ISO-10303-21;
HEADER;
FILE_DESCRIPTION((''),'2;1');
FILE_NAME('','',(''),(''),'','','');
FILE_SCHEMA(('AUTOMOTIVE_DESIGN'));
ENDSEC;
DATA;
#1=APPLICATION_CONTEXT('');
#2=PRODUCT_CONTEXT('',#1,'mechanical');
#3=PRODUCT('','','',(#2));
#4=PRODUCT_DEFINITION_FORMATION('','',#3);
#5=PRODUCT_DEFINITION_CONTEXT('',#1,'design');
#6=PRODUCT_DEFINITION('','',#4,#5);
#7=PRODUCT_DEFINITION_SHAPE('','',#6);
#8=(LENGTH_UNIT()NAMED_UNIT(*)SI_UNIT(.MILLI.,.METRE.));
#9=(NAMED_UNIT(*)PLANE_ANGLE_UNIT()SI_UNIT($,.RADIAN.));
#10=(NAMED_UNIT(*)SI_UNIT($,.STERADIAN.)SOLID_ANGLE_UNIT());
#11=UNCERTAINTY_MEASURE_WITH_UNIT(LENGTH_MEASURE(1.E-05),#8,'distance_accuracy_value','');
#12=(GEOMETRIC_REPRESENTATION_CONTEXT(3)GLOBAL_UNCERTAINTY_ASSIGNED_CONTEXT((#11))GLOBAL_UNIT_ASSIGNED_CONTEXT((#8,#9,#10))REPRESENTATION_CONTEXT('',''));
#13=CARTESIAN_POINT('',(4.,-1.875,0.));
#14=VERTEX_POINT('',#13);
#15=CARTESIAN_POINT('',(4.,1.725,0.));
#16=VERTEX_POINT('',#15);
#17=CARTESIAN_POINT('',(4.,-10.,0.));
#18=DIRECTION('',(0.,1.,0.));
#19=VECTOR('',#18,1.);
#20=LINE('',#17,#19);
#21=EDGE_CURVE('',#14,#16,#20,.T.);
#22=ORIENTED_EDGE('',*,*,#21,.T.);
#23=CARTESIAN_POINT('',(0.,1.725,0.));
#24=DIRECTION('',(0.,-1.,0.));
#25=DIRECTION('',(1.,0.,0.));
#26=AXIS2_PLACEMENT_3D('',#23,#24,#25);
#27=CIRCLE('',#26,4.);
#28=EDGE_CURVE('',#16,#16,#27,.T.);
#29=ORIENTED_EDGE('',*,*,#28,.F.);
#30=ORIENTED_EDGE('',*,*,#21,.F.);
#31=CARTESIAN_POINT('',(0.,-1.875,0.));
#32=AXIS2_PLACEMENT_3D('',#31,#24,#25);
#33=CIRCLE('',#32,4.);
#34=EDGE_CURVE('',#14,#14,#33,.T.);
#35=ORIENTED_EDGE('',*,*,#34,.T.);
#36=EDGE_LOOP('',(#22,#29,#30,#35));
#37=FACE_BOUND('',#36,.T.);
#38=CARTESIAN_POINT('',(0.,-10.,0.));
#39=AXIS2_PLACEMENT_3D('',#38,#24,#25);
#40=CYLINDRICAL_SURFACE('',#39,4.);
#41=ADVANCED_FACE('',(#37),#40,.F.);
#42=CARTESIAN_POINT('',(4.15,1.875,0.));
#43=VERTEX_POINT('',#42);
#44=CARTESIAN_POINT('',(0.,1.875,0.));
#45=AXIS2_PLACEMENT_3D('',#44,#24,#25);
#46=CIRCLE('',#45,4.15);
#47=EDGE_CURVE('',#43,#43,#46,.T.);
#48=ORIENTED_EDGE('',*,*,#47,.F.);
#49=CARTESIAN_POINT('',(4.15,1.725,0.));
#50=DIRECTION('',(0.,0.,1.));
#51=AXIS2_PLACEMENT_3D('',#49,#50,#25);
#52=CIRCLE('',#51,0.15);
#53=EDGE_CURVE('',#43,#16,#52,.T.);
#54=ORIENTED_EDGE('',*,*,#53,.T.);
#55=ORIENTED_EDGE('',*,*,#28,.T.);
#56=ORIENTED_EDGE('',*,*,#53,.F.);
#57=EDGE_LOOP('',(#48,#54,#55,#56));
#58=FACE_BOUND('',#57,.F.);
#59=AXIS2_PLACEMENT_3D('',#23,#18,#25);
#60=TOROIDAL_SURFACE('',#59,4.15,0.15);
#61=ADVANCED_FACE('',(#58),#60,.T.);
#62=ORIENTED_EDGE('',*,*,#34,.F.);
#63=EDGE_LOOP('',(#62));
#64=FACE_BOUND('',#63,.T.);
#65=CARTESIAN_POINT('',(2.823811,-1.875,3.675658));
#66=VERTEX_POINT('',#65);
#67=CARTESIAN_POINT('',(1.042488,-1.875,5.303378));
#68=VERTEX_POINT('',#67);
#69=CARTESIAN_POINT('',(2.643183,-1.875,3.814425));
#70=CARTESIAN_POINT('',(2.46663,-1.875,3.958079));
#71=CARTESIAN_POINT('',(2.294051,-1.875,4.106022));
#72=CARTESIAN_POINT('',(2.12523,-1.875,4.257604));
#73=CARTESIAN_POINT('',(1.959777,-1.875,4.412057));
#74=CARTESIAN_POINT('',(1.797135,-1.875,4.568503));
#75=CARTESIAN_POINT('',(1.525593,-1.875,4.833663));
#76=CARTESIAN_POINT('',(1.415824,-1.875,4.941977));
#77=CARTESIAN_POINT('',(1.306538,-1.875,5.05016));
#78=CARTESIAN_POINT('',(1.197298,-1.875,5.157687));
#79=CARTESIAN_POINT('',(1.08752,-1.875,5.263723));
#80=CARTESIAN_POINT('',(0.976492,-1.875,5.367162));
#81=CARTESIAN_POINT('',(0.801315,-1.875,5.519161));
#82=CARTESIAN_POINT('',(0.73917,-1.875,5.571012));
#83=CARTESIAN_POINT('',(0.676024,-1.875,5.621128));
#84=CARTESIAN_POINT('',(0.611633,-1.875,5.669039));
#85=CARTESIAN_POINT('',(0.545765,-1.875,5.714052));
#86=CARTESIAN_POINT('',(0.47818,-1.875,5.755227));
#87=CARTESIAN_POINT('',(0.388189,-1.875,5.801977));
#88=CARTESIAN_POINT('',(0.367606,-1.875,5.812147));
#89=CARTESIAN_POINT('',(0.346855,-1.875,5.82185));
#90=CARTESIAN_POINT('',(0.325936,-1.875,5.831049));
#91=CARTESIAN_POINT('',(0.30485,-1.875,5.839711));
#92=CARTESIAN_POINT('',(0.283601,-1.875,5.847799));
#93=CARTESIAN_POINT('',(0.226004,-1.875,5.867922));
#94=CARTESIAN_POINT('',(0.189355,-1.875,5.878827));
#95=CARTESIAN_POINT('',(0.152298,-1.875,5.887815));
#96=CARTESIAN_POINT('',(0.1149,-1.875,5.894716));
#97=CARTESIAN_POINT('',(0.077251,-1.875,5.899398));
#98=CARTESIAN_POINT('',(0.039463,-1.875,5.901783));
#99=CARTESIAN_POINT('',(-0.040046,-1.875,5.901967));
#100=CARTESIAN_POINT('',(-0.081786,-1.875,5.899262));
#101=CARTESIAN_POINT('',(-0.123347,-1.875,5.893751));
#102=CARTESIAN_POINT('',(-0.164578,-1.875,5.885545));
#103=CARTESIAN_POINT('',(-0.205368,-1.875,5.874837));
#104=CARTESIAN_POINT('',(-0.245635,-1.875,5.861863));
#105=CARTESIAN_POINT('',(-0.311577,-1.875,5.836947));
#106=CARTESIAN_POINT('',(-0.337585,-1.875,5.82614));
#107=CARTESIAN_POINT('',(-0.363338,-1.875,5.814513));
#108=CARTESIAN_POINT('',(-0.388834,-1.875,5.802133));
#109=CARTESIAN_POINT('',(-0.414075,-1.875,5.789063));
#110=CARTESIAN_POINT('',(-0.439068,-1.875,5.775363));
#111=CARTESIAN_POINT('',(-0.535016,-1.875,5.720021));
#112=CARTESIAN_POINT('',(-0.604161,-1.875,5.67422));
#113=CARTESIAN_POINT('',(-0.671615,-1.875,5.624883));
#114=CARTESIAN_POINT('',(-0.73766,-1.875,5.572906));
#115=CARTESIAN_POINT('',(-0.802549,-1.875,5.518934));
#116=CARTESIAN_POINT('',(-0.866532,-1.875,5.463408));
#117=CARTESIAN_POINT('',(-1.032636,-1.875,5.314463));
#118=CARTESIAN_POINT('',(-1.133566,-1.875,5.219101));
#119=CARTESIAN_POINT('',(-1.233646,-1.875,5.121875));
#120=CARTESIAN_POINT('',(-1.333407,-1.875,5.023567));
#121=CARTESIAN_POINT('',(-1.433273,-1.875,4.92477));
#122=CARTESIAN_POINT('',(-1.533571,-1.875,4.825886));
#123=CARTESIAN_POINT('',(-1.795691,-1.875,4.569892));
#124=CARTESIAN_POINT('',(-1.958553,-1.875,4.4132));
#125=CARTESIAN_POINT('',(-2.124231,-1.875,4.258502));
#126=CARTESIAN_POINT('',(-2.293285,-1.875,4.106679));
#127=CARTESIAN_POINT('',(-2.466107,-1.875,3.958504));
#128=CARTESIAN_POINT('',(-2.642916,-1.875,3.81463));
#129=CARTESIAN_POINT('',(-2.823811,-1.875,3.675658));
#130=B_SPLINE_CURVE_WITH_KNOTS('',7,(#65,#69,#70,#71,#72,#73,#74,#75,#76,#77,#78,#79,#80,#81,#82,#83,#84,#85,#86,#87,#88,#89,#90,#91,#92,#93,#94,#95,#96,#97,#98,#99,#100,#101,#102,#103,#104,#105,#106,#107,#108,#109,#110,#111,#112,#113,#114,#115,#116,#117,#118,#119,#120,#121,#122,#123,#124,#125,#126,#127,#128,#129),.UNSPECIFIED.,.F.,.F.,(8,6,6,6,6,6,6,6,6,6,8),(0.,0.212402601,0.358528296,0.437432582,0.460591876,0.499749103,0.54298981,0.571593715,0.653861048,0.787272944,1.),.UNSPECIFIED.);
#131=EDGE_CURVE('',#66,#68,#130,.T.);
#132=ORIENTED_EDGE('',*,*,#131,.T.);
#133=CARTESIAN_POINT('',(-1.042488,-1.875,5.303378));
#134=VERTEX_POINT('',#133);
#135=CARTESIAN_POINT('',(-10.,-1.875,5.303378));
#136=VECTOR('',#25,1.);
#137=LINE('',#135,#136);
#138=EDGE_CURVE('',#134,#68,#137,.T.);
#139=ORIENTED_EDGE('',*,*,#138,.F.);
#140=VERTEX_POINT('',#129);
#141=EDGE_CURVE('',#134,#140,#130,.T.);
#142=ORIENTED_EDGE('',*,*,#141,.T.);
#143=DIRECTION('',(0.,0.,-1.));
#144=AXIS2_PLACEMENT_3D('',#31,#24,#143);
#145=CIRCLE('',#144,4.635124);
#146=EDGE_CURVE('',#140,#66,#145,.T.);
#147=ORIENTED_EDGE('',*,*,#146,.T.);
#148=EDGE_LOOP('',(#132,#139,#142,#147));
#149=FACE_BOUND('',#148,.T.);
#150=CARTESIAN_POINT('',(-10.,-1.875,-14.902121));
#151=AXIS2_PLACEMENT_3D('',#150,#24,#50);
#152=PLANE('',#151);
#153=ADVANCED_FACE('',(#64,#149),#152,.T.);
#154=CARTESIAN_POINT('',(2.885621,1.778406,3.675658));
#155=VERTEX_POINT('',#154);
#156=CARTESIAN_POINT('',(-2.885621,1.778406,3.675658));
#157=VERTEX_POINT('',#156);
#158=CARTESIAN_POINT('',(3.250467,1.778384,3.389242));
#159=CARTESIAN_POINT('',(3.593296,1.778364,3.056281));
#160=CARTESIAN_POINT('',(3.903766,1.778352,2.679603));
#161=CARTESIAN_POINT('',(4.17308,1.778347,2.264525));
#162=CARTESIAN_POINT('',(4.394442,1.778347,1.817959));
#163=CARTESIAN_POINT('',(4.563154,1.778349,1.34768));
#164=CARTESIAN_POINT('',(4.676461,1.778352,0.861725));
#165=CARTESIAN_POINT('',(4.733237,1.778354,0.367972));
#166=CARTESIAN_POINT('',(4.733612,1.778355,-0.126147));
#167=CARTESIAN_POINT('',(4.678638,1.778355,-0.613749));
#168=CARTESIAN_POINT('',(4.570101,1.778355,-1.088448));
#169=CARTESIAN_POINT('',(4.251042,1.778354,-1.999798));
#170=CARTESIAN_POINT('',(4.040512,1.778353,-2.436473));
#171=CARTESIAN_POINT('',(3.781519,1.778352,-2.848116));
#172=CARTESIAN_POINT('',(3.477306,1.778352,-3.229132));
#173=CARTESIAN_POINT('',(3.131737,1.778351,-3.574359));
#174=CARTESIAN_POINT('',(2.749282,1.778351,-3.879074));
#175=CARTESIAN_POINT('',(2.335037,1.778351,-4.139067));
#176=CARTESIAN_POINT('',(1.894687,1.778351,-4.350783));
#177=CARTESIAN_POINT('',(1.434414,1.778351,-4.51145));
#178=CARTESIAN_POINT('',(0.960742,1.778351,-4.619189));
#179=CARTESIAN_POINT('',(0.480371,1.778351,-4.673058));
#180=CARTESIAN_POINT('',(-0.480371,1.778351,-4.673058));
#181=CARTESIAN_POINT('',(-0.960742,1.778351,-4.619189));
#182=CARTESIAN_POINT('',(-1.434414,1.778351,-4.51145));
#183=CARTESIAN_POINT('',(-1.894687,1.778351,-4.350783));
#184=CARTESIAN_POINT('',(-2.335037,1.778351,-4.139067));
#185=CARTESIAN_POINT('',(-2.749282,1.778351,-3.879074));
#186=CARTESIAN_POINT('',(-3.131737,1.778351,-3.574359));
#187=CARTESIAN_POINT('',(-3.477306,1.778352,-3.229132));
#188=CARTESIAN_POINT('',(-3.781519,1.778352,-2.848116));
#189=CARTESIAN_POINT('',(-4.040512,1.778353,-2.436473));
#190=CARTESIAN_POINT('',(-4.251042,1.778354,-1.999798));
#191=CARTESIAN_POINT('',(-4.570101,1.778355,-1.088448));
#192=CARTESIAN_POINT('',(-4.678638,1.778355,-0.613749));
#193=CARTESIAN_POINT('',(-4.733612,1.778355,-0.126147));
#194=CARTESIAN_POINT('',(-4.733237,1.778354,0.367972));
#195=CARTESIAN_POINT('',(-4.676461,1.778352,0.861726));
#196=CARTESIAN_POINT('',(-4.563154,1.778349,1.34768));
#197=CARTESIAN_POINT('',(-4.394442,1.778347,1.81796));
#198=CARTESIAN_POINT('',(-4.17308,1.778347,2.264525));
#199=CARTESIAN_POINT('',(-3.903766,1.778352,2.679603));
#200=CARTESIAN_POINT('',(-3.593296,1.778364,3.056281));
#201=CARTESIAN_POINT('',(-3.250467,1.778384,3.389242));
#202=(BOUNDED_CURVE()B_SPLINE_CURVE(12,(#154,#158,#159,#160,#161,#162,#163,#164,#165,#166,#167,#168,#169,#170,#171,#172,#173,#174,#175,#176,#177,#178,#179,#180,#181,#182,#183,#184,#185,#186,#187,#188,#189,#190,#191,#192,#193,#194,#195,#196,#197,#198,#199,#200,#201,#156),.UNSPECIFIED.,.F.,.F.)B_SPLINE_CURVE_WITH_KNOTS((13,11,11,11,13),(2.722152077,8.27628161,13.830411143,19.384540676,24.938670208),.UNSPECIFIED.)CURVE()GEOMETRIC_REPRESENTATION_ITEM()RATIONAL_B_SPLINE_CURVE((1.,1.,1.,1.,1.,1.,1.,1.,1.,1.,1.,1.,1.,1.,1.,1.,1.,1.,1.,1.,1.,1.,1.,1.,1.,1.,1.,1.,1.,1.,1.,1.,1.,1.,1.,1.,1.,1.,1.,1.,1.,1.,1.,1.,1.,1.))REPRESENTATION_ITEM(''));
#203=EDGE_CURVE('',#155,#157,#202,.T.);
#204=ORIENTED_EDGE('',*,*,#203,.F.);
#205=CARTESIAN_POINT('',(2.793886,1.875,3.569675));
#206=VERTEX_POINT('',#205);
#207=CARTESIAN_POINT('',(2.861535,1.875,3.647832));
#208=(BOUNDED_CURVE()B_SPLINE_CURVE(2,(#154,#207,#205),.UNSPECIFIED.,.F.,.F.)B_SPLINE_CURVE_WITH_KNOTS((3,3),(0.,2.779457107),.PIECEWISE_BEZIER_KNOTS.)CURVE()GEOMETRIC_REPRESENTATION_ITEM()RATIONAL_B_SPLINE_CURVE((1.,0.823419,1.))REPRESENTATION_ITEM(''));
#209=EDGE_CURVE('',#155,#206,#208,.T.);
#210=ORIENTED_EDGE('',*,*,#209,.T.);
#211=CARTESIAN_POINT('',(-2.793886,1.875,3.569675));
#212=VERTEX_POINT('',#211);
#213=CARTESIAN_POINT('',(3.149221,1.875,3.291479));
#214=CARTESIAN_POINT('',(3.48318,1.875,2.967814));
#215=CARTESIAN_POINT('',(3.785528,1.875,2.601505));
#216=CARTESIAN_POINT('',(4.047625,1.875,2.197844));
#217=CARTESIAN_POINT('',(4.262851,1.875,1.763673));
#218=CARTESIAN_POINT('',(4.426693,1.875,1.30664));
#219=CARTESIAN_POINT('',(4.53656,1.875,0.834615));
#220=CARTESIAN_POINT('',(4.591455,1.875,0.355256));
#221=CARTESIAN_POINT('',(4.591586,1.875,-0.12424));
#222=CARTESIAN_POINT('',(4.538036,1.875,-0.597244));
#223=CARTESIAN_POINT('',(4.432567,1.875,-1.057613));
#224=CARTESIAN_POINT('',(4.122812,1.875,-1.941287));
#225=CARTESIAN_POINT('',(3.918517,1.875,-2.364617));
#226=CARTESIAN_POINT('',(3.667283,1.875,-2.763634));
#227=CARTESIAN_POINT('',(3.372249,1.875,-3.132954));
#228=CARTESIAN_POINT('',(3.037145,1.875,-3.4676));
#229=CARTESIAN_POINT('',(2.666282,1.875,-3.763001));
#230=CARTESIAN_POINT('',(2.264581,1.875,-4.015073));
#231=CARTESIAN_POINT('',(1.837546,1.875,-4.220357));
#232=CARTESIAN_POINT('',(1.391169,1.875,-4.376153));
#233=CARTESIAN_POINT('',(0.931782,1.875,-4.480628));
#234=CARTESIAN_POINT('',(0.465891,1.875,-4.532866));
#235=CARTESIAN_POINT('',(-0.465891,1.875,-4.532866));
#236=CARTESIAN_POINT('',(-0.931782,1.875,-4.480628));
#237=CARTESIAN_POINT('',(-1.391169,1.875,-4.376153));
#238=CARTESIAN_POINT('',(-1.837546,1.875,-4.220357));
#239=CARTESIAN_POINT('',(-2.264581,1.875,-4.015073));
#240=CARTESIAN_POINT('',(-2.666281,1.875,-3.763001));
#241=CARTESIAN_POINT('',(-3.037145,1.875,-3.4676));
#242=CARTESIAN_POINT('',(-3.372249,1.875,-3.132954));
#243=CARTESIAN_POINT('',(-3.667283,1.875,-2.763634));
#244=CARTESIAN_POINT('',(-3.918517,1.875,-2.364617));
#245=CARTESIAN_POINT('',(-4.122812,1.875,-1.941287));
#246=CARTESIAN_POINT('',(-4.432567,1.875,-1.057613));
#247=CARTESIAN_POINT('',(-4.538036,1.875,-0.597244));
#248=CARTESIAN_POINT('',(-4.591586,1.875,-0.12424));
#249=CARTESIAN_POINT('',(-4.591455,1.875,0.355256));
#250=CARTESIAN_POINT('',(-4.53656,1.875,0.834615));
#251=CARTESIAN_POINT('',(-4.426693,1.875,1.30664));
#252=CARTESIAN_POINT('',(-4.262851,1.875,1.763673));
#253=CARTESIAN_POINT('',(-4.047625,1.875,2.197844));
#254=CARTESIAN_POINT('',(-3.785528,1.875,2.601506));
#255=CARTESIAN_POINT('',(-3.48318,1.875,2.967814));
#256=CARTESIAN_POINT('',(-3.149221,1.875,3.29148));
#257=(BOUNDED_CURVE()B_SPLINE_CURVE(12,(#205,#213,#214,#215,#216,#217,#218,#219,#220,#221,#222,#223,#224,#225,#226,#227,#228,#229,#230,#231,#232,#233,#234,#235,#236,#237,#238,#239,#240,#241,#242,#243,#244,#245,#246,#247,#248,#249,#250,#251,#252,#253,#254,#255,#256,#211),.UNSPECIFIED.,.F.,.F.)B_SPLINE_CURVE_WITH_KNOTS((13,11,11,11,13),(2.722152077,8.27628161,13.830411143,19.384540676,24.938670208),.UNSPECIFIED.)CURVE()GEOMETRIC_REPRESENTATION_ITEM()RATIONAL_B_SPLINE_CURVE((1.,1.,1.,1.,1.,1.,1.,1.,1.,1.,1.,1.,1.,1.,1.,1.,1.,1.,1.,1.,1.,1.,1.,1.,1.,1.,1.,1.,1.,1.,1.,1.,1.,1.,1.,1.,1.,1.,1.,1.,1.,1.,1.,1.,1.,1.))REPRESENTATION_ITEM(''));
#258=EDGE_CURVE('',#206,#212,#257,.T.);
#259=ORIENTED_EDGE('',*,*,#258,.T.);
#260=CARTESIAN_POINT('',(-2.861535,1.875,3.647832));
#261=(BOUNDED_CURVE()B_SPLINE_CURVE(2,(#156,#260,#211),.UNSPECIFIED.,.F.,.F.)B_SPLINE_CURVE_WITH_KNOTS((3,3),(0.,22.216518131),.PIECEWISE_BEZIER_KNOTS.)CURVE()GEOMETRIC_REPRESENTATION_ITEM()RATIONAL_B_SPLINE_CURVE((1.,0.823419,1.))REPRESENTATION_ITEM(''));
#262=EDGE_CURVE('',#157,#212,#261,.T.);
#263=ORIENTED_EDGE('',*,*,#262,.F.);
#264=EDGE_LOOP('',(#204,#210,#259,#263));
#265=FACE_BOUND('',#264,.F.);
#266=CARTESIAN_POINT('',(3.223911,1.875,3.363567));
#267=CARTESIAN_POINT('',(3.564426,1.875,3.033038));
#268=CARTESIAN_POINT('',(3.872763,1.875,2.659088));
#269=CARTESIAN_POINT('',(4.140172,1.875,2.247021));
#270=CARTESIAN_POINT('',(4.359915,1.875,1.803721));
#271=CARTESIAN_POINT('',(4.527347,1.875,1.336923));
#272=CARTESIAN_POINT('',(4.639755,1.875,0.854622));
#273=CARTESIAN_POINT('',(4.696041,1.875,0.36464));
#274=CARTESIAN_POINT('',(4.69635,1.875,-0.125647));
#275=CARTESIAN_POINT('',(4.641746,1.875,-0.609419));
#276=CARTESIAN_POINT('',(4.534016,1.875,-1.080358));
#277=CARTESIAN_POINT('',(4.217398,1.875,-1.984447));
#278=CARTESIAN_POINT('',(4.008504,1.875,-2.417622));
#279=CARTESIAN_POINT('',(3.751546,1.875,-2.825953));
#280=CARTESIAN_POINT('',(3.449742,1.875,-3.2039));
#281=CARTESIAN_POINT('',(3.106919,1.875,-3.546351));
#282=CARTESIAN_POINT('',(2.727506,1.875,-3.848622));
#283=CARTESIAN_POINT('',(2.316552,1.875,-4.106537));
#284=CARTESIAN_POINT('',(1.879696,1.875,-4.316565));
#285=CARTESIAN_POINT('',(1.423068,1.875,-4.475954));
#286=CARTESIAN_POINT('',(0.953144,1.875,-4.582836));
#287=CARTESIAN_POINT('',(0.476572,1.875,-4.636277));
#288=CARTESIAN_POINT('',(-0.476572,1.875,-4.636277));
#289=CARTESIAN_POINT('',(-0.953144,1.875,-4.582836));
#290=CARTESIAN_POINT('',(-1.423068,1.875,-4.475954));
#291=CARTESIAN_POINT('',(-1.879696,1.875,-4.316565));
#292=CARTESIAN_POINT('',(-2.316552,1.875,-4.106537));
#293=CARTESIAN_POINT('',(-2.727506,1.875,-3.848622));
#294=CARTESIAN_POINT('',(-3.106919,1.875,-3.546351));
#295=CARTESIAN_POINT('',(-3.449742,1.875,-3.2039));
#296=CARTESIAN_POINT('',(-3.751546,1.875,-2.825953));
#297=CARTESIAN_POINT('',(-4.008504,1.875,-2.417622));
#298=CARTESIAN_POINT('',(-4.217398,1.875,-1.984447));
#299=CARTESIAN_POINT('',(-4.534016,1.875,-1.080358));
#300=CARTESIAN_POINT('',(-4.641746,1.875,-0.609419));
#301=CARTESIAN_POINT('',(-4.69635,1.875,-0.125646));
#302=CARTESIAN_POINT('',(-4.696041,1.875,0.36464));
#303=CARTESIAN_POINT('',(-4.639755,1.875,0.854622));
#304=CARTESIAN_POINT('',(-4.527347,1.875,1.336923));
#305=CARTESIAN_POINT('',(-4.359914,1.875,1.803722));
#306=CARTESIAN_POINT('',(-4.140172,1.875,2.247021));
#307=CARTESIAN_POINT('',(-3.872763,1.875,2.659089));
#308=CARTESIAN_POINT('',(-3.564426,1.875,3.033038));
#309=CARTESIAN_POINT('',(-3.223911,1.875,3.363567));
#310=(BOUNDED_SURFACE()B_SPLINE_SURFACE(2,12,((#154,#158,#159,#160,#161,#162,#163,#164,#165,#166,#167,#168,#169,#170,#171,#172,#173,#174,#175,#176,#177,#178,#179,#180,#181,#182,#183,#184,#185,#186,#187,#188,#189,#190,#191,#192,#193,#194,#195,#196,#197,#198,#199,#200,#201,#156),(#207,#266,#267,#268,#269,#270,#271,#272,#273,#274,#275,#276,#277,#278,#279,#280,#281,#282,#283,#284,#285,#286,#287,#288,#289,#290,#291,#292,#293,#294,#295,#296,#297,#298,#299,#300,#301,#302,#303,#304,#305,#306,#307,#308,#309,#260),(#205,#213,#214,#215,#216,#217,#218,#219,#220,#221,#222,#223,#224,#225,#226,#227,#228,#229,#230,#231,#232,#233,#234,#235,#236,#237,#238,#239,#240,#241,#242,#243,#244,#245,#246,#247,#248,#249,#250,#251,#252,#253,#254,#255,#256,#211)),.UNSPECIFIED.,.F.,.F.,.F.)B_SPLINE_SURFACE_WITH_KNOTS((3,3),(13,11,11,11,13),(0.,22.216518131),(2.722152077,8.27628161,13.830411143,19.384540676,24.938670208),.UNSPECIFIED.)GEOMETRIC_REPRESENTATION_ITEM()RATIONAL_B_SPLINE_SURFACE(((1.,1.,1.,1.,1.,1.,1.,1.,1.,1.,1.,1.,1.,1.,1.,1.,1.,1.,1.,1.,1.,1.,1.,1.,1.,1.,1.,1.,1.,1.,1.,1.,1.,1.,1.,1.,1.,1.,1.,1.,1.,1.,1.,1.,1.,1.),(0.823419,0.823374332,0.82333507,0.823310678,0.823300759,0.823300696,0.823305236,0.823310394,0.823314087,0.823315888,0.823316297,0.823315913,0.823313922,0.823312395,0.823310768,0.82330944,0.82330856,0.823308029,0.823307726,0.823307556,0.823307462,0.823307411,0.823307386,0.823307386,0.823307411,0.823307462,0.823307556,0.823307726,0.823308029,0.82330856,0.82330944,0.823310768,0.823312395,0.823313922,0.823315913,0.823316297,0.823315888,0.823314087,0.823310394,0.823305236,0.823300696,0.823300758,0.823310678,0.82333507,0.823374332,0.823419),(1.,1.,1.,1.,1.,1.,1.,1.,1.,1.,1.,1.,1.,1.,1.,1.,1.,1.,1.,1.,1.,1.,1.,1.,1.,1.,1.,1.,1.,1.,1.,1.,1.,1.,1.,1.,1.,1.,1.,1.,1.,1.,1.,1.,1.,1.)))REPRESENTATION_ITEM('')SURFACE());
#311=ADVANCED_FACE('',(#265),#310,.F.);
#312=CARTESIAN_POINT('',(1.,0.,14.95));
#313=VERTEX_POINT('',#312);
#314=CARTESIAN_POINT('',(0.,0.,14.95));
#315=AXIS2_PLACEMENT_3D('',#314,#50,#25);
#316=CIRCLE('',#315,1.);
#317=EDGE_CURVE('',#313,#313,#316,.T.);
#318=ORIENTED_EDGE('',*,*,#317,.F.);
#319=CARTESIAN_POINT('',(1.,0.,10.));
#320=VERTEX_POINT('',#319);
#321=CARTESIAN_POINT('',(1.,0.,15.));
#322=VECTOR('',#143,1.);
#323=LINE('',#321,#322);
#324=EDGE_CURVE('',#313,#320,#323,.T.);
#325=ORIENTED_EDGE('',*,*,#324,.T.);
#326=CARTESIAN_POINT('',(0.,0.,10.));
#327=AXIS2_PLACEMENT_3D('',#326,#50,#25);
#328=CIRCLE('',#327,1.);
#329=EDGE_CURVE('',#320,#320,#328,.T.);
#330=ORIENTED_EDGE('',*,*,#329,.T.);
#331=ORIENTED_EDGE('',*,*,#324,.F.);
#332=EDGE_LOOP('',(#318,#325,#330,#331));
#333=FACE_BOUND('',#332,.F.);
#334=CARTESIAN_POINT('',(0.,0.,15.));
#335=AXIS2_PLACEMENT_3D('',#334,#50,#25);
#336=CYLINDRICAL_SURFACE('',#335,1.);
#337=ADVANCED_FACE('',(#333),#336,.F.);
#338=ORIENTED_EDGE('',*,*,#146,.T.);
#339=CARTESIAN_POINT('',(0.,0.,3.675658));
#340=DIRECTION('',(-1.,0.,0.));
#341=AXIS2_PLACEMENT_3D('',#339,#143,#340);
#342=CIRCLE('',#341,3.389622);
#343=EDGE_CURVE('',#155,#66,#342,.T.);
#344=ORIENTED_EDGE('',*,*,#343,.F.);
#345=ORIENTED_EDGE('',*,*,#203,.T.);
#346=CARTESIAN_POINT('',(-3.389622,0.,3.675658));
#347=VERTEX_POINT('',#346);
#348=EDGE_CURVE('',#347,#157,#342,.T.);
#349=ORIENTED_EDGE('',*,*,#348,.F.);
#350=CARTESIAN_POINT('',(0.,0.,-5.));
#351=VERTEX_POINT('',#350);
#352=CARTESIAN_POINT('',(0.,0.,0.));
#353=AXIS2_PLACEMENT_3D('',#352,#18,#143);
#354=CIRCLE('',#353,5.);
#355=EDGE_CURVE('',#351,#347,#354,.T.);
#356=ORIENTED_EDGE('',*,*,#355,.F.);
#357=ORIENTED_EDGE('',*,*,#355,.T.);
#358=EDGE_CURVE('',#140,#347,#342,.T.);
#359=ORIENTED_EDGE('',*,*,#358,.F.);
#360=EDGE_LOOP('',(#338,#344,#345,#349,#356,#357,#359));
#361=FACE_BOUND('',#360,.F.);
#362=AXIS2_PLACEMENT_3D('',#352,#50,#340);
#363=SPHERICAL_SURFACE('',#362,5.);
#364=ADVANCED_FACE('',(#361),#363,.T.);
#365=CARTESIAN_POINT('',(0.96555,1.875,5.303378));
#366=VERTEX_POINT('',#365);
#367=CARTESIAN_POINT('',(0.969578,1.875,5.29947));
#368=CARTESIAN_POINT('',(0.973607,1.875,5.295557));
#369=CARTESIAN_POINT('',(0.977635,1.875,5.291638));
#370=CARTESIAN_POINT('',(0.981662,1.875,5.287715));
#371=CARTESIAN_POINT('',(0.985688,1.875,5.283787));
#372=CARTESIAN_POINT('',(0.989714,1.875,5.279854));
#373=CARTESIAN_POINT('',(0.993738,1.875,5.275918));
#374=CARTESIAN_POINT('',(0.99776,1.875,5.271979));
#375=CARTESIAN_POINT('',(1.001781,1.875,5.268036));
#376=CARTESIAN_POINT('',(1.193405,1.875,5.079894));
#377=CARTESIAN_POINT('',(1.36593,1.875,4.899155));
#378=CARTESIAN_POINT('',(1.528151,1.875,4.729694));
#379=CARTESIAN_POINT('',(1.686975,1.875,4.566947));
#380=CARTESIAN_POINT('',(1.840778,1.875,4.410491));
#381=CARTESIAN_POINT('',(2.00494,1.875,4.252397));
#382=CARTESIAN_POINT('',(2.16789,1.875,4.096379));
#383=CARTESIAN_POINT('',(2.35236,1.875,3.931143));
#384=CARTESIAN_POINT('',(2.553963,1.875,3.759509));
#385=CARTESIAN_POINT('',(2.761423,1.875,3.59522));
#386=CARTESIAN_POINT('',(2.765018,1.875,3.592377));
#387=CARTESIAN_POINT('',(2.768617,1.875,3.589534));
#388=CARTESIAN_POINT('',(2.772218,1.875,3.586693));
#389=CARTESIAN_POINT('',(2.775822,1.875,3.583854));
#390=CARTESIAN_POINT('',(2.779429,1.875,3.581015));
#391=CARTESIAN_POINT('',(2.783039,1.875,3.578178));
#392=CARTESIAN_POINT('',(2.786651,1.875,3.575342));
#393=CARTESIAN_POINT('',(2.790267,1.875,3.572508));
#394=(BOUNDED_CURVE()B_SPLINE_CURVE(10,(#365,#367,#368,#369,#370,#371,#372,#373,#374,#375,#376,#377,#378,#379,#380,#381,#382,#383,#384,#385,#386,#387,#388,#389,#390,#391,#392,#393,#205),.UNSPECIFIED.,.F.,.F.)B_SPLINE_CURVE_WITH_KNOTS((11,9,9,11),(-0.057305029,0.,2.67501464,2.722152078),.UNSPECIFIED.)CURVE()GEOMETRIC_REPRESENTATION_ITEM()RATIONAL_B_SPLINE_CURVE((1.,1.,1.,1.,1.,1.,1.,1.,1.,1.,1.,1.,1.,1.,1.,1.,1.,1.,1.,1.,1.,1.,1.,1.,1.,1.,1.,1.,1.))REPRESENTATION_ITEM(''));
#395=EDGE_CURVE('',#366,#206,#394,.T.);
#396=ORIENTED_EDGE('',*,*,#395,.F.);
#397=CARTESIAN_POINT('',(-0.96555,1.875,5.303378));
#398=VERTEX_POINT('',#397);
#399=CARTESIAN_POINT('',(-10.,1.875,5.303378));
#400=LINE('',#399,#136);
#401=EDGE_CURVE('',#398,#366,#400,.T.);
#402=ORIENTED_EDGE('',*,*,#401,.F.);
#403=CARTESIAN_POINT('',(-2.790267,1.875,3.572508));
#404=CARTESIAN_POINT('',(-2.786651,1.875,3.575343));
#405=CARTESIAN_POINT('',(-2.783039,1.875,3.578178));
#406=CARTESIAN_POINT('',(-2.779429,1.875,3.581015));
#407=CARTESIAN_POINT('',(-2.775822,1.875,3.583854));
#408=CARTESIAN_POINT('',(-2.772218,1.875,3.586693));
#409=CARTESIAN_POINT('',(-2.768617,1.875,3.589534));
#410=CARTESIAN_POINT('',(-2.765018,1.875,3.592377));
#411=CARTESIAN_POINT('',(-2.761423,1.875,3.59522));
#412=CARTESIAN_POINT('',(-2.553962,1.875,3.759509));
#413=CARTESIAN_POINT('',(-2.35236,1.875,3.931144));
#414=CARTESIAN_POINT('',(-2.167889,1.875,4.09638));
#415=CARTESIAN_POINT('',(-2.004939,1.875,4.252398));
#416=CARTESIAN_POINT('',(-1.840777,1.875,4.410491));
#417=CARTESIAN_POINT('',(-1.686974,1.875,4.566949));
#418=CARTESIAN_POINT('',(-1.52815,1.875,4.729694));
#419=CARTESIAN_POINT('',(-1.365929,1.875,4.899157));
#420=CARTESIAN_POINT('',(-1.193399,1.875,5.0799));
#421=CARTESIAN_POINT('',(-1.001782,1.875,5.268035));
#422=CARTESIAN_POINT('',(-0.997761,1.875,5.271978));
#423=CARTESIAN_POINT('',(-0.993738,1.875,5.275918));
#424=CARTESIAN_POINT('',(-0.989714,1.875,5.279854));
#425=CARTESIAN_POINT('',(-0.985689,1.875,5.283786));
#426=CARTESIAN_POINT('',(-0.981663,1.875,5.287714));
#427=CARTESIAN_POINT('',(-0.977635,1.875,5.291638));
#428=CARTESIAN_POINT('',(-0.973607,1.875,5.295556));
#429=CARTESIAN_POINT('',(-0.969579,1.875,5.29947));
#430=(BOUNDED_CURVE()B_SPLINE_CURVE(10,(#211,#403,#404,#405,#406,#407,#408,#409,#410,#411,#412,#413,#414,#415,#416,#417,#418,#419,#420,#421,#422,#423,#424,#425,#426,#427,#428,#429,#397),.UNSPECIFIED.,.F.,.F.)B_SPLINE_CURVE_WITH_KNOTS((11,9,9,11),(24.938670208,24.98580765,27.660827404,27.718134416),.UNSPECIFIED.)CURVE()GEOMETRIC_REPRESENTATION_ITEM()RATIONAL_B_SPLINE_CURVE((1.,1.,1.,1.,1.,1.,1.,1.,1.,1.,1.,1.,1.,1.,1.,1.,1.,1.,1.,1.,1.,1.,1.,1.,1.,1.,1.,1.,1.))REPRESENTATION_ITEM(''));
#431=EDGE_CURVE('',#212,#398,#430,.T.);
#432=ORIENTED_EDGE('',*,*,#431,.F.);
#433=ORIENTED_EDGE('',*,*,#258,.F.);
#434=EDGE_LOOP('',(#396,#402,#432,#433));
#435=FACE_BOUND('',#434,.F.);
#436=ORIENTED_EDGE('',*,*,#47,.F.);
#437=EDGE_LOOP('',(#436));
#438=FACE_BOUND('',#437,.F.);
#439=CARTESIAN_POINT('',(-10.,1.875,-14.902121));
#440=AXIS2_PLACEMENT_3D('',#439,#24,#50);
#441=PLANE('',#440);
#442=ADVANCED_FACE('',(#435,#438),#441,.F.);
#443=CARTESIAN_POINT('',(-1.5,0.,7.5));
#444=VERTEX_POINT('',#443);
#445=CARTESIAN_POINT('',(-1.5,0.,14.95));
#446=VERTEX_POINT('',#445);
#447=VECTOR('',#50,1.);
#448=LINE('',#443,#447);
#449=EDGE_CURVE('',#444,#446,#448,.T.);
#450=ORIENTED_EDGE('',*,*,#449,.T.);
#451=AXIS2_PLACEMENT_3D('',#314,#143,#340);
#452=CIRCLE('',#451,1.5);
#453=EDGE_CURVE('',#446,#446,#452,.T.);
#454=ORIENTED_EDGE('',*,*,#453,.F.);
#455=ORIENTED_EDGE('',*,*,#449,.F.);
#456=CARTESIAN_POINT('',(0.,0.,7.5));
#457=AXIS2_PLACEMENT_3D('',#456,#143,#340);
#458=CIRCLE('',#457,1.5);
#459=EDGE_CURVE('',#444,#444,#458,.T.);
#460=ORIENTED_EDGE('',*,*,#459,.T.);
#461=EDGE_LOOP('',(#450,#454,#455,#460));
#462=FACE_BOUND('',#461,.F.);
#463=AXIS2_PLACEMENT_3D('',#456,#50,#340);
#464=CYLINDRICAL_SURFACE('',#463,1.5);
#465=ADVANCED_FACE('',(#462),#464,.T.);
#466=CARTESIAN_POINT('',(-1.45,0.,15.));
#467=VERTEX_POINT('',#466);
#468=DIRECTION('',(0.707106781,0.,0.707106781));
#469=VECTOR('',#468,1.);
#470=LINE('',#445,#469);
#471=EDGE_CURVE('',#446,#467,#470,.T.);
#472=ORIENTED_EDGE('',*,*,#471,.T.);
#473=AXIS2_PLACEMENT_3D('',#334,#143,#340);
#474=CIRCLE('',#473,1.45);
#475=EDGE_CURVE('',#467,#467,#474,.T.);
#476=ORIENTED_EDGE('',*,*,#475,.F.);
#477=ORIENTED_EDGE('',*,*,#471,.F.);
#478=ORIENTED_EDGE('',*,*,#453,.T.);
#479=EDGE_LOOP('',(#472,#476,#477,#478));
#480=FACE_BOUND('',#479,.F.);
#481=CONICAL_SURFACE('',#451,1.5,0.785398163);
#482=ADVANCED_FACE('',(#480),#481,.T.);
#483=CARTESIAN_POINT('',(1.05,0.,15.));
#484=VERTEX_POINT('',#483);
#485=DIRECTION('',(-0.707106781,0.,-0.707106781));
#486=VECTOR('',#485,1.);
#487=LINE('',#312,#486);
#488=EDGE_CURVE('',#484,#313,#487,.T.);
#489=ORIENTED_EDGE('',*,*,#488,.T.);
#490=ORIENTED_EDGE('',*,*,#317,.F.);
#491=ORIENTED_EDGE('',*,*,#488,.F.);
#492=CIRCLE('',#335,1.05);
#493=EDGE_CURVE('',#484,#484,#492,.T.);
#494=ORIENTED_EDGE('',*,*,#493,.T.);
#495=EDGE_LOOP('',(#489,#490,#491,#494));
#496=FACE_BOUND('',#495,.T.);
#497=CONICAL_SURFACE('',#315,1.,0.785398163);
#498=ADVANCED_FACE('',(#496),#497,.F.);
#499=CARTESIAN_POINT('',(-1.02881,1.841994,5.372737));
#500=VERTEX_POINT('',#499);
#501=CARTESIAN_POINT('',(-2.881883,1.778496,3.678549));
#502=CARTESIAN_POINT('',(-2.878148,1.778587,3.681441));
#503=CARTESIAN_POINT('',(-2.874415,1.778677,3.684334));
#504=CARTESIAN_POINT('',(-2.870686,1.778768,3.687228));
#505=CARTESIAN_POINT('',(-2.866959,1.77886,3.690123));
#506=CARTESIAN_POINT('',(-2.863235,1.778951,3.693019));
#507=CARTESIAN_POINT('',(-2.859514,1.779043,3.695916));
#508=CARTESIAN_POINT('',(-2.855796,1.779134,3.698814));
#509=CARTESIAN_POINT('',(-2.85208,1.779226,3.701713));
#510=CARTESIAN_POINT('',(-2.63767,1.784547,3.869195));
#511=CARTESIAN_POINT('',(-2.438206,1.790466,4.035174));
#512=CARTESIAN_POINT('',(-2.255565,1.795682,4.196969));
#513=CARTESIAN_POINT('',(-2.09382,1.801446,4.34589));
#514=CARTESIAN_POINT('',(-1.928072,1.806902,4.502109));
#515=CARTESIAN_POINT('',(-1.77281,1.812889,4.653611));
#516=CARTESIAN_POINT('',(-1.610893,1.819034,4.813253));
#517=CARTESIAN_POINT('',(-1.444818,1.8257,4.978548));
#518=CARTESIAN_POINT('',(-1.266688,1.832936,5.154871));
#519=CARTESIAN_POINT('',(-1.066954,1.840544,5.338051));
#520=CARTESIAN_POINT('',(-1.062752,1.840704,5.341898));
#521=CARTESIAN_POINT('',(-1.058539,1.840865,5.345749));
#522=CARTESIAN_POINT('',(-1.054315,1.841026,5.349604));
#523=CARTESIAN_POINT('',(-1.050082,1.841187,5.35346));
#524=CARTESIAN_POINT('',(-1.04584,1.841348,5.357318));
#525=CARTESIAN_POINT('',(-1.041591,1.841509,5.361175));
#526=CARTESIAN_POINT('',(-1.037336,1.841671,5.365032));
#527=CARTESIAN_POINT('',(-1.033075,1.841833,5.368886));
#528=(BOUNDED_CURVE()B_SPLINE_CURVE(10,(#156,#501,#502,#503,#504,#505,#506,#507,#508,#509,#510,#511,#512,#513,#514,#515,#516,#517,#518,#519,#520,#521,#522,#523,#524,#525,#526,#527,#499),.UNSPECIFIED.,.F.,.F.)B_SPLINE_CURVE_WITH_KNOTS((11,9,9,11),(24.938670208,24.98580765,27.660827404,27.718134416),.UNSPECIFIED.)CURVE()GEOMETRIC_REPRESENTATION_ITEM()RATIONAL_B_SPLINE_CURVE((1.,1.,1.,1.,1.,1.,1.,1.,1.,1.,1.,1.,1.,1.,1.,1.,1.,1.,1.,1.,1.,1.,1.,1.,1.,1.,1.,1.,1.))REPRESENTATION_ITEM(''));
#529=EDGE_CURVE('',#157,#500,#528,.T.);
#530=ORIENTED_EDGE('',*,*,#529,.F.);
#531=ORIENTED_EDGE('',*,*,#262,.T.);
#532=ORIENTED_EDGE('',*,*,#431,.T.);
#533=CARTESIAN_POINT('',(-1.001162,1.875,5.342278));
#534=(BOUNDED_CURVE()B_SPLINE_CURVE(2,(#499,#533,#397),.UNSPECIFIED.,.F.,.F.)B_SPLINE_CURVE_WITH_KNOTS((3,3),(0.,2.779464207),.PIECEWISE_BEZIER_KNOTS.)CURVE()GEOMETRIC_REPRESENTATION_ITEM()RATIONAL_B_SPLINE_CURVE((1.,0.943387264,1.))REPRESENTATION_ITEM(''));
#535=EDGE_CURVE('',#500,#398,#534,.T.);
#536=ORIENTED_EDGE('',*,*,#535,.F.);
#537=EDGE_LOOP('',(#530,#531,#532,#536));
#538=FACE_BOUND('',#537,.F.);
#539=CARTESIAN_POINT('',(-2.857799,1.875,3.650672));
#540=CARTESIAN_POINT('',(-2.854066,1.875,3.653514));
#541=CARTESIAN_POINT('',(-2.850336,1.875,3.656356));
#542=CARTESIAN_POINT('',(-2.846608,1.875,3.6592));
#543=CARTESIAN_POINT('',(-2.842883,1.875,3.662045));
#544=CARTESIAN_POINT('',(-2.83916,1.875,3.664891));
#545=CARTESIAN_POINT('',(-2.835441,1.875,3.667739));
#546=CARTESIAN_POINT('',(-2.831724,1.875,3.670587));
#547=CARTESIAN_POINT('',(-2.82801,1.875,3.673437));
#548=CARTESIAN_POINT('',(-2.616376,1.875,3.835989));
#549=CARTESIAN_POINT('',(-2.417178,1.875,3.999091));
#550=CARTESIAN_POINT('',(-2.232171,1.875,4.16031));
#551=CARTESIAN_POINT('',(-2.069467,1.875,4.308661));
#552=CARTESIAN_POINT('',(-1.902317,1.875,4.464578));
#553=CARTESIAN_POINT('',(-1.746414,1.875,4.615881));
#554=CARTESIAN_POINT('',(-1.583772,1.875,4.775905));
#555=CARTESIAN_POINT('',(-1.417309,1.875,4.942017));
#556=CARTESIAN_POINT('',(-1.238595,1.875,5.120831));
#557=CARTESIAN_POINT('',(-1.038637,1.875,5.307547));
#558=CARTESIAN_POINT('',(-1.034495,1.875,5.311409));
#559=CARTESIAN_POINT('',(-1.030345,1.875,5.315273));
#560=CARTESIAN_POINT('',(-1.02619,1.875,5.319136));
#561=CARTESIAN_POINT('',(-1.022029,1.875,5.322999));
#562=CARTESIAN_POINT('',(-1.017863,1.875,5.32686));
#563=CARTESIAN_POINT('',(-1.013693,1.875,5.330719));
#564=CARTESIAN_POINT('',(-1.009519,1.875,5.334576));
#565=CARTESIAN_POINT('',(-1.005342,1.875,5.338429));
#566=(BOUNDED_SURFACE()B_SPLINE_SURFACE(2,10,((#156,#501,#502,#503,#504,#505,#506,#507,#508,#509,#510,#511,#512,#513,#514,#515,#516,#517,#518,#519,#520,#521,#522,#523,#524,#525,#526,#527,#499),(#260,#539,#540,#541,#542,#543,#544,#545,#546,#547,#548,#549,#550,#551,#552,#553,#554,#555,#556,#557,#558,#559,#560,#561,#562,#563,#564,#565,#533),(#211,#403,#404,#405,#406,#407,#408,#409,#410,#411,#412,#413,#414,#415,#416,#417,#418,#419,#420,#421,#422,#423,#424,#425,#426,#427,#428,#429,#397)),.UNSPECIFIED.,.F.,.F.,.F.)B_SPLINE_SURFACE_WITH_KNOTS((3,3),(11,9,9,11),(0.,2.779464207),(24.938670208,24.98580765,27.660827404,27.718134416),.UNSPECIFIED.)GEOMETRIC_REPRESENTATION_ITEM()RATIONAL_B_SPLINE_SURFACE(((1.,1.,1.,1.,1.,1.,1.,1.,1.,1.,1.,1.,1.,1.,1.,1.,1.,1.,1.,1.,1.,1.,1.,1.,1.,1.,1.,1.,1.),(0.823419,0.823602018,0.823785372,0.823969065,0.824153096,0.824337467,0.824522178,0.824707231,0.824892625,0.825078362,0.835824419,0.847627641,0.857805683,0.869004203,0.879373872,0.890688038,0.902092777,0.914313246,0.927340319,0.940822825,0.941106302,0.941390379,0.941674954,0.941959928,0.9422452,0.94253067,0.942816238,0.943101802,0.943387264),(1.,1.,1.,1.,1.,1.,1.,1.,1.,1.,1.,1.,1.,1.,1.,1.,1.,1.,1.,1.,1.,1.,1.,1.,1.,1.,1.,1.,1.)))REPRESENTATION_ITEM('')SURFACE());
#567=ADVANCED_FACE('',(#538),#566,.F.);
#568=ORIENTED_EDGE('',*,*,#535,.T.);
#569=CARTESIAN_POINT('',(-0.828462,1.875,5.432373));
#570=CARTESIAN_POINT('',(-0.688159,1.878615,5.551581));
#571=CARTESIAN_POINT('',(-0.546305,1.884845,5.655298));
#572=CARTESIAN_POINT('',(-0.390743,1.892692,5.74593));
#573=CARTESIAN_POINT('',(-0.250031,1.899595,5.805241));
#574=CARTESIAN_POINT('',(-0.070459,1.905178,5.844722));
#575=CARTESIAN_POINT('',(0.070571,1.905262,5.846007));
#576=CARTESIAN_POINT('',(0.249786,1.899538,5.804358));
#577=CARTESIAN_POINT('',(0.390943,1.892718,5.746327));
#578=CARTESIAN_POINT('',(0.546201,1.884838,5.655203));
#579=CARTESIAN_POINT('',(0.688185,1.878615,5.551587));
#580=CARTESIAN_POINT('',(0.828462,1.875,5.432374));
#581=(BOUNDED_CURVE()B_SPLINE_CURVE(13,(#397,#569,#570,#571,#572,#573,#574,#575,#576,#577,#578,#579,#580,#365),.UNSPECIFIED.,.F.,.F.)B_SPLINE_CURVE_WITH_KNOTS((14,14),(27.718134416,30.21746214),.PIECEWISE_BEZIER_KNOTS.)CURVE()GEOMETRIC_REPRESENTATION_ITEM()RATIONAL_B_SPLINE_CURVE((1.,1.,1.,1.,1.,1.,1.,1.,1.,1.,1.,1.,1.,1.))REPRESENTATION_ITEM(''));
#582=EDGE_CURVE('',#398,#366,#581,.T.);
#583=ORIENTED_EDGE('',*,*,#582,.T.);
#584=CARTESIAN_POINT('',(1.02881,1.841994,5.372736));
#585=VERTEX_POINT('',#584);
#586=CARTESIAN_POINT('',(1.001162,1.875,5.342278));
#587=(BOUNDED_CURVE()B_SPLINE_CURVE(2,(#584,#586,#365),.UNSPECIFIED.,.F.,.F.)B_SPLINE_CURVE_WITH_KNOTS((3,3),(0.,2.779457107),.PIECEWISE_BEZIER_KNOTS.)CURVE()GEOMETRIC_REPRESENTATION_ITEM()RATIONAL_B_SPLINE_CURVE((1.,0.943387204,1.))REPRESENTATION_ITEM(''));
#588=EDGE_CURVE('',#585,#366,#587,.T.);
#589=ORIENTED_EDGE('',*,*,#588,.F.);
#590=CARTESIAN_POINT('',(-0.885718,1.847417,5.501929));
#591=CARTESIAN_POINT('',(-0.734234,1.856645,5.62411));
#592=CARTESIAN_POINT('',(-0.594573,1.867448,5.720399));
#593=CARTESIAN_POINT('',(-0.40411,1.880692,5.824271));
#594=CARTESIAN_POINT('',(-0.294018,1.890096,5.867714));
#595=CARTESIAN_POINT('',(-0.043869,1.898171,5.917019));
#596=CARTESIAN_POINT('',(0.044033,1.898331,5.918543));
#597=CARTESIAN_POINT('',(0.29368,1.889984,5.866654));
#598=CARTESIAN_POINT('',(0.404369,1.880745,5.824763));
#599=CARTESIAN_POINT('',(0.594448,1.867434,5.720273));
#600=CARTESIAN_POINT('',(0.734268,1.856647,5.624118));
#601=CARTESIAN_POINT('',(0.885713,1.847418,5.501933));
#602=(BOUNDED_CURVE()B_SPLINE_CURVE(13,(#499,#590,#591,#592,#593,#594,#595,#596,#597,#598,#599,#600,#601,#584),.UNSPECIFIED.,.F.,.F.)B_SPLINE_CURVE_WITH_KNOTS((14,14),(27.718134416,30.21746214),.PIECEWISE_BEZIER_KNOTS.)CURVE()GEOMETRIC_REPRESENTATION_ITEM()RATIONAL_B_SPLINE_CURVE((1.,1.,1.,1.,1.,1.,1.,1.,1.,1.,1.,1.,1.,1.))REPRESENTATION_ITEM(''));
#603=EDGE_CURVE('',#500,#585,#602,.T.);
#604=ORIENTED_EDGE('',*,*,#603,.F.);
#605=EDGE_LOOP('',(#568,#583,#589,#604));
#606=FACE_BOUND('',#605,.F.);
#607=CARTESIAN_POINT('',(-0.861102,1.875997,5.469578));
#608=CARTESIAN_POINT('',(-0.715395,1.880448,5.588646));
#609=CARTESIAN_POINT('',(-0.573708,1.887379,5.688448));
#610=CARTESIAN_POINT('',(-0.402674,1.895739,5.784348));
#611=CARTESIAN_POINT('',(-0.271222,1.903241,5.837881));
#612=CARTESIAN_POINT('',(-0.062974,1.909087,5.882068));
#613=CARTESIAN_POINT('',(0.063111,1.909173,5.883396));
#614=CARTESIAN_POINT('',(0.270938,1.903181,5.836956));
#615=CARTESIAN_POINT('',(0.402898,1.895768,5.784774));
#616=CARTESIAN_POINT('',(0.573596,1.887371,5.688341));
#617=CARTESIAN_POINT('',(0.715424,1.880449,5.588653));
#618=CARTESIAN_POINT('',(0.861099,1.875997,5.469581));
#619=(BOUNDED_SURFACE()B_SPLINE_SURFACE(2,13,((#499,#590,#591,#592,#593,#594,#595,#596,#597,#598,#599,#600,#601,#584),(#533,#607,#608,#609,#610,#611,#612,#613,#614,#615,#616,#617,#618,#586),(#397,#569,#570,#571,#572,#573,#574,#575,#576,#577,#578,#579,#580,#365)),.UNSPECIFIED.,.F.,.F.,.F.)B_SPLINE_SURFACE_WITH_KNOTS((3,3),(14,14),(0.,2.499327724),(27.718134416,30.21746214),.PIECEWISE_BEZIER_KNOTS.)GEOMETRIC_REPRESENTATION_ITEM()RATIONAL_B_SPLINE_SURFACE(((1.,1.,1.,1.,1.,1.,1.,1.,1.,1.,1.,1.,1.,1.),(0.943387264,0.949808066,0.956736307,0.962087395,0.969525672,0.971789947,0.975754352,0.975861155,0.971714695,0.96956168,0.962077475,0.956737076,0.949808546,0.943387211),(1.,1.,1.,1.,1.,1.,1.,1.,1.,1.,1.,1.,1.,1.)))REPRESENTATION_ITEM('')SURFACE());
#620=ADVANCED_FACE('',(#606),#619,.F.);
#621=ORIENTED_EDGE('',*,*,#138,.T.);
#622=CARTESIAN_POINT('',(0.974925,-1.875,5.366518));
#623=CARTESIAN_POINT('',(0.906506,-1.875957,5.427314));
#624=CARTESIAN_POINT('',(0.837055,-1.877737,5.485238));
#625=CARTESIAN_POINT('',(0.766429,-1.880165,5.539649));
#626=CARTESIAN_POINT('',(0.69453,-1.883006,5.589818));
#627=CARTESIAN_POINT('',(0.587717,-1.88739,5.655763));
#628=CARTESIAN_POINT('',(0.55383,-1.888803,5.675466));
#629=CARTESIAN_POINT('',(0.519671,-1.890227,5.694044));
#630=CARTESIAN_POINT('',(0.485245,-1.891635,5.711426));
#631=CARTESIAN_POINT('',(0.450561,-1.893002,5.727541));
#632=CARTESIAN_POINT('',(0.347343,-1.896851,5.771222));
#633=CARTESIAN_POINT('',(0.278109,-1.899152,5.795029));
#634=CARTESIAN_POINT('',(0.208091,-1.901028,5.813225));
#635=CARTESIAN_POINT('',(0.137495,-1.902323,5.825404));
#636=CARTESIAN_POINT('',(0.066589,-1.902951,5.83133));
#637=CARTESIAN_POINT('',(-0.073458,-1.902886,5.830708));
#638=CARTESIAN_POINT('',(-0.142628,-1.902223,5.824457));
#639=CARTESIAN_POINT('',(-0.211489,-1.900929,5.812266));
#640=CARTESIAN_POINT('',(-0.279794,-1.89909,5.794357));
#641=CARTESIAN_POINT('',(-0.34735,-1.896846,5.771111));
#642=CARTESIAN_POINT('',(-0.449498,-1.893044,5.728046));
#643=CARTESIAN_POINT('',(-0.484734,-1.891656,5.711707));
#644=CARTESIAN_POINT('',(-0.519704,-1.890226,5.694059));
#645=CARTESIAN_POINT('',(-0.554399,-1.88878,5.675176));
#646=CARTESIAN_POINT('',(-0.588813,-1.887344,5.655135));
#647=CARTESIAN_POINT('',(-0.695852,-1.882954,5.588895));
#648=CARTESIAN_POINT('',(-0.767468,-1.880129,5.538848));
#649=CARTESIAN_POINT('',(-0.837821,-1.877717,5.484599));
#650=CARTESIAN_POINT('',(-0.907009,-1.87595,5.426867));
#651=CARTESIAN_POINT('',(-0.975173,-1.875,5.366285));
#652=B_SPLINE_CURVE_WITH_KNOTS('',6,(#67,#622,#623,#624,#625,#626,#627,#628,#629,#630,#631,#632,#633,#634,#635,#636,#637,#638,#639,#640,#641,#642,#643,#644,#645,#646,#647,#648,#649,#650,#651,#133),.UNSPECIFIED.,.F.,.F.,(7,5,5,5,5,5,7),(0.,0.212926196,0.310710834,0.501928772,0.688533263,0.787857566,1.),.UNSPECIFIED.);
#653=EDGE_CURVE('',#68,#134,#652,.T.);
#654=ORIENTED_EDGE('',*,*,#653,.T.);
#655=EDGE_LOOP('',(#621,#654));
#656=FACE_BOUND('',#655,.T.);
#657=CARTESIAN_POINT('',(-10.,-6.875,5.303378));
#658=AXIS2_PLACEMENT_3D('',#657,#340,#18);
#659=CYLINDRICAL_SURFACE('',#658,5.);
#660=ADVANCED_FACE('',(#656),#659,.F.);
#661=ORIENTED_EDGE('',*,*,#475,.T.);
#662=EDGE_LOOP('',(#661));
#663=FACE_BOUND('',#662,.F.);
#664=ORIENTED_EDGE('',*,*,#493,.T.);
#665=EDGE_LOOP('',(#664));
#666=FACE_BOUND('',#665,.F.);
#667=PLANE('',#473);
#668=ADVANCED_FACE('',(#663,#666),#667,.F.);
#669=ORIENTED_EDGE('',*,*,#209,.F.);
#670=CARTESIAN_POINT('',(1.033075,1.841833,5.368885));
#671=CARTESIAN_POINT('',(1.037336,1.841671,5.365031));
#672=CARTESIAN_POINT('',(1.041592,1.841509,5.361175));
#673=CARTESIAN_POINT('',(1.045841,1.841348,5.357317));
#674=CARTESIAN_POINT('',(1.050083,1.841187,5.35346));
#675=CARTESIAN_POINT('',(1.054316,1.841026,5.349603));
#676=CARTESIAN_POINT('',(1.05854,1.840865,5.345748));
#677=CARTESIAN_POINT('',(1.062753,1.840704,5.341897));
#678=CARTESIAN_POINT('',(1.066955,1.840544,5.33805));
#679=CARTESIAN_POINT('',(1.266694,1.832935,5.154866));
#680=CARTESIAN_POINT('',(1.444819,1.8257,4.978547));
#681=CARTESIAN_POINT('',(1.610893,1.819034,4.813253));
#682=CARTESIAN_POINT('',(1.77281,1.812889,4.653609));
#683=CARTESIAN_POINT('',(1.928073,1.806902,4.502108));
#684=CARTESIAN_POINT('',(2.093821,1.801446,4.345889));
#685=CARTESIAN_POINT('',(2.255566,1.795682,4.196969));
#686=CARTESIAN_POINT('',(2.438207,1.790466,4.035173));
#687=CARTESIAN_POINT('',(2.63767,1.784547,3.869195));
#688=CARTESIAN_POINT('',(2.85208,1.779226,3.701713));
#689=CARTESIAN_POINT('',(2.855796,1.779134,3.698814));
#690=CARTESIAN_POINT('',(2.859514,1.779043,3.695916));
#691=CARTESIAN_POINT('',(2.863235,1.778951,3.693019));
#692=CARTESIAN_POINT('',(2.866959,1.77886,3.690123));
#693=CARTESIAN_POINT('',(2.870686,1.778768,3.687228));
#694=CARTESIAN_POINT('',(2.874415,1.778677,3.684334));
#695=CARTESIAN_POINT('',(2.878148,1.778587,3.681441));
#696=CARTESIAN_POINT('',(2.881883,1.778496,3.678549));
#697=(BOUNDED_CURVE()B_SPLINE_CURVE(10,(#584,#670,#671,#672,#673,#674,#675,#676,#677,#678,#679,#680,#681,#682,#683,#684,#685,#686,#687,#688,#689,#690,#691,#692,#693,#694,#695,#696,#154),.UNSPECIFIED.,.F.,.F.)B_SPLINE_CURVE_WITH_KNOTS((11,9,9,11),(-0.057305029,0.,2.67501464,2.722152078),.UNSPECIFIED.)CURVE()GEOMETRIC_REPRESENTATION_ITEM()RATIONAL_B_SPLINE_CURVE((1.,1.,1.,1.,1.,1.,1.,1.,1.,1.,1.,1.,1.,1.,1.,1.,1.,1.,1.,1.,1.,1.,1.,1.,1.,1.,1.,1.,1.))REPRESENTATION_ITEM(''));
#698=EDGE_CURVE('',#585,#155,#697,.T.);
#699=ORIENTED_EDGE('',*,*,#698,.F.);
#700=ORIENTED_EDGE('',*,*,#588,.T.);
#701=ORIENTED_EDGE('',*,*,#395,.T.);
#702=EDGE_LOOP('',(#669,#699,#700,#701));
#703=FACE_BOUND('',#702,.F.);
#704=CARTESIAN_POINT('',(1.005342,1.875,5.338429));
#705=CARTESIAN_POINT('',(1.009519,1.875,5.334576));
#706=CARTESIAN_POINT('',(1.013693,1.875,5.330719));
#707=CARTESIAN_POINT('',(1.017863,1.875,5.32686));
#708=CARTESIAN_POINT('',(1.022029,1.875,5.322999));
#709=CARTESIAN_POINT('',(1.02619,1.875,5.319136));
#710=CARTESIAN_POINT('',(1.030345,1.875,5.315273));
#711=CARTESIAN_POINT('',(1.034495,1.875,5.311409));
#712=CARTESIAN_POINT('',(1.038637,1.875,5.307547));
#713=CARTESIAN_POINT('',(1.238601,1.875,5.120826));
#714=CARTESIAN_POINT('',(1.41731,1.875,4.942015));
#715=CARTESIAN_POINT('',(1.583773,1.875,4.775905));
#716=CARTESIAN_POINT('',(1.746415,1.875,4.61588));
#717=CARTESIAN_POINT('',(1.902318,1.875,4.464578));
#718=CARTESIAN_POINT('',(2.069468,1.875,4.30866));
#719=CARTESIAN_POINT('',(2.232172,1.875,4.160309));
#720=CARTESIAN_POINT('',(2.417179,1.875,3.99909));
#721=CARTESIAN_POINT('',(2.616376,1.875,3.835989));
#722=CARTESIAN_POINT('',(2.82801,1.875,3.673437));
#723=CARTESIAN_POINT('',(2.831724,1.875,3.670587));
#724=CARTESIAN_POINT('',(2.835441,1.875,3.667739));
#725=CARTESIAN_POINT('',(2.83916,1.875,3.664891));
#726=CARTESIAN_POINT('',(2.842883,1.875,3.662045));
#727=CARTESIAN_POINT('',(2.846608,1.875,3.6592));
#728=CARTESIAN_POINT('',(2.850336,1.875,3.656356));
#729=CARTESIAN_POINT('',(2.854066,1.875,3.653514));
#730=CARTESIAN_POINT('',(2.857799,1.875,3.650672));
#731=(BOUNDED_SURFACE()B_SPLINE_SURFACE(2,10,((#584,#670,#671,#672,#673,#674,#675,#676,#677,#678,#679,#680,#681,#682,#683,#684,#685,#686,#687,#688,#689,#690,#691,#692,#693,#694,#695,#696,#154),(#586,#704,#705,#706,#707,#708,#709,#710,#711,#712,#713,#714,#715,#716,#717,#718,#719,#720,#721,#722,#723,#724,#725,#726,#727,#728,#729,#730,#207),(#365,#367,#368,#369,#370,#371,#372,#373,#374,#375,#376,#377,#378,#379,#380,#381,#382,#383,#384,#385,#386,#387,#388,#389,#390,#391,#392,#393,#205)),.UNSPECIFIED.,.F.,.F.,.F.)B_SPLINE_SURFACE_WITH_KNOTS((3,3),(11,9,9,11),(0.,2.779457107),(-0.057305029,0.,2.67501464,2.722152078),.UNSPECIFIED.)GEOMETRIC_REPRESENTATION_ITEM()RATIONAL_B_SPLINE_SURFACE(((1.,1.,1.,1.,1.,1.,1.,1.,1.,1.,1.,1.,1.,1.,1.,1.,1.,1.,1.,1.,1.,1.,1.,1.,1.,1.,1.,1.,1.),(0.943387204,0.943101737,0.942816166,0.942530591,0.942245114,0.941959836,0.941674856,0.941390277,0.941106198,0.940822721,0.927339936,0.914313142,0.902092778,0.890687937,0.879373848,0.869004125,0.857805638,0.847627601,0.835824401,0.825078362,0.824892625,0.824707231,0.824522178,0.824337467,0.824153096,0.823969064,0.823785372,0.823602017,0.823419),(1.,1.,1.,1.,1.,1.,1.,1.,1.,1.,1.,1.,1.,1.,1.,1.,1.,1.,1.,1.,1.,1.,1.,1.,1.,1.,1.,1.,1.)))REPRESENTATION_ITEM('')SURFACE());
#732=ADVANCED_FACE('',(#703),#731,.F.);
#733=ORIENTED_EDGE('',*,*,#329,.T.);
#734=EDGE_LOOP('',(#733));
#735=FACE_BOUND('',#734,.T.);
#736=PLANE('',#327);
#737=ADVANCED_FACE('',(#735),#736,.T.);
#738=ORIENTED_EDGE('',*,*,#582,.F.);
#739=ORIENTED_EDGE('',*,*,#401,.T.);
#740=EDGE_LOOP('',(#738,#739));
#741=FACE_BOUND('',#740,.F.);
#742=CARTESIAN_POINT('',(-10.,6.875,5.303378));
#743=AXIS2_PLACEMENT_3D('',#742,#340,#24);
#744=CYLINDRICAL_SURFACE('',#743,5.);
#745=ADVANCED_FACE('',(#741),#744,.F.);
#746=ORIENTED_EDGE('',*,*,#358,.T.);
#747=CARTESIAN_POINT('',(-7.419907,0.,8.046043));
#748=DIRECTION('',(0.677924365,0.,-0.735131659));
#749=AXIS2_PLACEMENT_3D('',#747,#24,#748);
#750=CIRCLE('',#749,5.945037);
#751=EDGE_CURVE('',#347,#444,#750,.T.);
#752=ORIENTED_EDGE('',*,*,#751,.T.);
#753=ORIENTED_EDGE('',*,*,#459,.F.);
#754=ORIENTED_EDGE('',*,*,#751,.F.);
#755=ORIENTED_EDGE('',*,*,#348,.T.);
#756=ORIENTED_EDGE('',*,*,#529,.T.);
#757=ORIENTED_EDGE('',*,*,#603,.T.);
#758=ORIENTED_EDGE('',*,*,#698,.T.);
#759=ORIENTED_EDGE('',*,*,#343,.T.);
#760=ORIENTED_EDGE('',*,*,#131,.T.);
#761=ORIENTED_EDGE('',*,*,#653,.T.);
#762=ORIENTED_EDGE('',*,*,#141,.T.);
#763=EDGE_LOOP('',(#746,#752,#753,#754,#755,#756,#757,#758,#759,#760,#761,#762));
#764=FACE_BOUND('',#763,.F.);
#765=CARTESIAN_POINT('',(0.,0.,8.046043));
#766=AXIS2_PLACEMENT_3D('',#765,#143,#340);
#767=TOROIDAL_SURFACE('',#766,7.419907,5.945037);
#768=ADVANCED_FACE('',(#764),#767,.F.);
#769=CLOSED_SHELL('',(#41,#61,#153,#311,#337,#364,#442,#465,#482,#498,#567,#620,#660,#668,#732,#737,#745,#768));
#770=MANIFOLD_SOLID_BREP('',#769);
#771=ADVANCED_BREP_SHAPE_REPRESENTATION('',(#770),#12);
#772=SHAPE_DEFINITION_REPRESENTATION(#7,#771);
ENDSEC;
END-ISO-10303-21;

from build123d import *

# Parameters (mm, degrees)
CUT_EXTRUDE3_DEPTH      = 10
CUT_EXTRUDE3_DEPTH_BACK = 10
CUT_EXTRUDE4_DEPTH      = 10
CUT_EXTRUDE4_DEPTH_BACK = 10
SKETCH7_R               = 4
FILLET1_R               = 0.15
SKETCH8_R               = 1
CUT_EXTRUDE5_DEPTH      = 5
CHAMFER1_SIZE           = 0.05


with BuildPart() as part:
    # Sketch5 → Revolve2 (revolve)
    with BuildSketch(Plane(origin=(0, 0, 0), x_dir=(1, 0, 0), z_dir=(0, 1, 0))):
        with BuildLine():
            Line((-1.5, -15), (0, -15))
            Line((0, -15), (0, 5))
            ThreePointArc((0, 5), (-4.657160695, 1.819575298), (-3.389621823, -3.675658294))
            ThreePointArc((-3.389621823, -3.675658294), (-2.089993468, -5.412512495), (-1.5, -7.5))
            Line((-1.5, -7.5), (-1.5, -15))
        make_face()
    revolve(axis=Axis((0, 0, 15), (0, 0, -1)))

    # Sketch6 → Cut-Extrude3 (cut, two sides: drawn at the far end of the back side and taken through both)
    with BuildSketch(Plane(origin=(0, 0, 0), x_dir=(0, 0, -1), z_dir=(1, 0, 0)).offset(-CUT_EXTRUDE3_DEPTH_BACK)):
        with BuildLine():
            Line((-19.567307599, 10.758838429), (14.902121045, 10.758838429))
            Line((14.902121045, 10.758838429), (14.902121045, 1.875))
            Line((14.902121045, 1.875), (-5.303377511, 1.875))
            ThreePointArc((-5.303377511, 1.875), (-6.806906508, 2.106415246), (-8.171259692, 2.779239779))
            Line((-8.171259692, 2.779239779), (-19.567307599, 10.758838429))
        make_face()
        with BuildLine():
            Line((-8.171259692, -2.779239779), (-19.567307599, -10.758838429))
            Line((-19.567307599, -10.758838429), (14.902121045, -10.758838429))
            Line((14.902121045, -10.758838429), (14.902121045, -1.875))
            Line((14.902121045, -1.875), (-5.303377511, -1.875))
            ThreePointArc((-5.303377511, -1.875), (-6.806906508, -2.106415246), (-8.171259692, -2.779239779))
        make_face()
    extrude(amount=CUT_EXTRUDE3_DEPTH + CUT_EXTRUDE3_DEPTH_BACK, mode=Mode.SUBTRACT)

    # Sketch7 → Cut-Extrude4 (cut, two sides: drawn at the far end of the back side and taken through both)
    with BuildSketch(Plane(origin=(0, 0, 0), x_dir=(1, 0, 0), z_dir=(0, 1, 0)).offset(-CUT_EXTRUDE4_DEPTH_BACK)):
        Circle(SKETCH7_R)
    extrude(amount=CUT_EXTRUDE4_DEPTH + CUT_EXTRUDE4_DEPTH_BACK, mode=Mode.SUBTRACT)

    # Fillet1
    fillet1_edges = [part.edges().sort_by_distance(p)[0] for p in [
        (-4, 1.875, 0),
        (1.909227576, 1.875, 4.46296456),
        (-1e-09, 1.902919108, 5.831024745),
        (-1.909227576, 1.875, 4.46296456),
        (0, 1.875, -4.635124054),
    ]]
    fillet(fillet1_edges, radius=FILLET1_R)

    # Sketch8 → Cut-Extrude5 (cut)
    with BuildSketch(Plane.XY.offset(15)):
        Circle(SKETCH8_R)
    extrude(amount=-CUT_EXTRUDE5_DEPTH, mode=Mode.SUBTRACT)

    # Chamfer1
    chamfer1_edges = [part.edges().sort_by_distance(p)[0] for p in [
        (1.5, 0, 15),
        (-1, 0, 15),
    ]]
    chamfer(chamfer1_edges, length=CHAMFER1_SIZE)


solid = part.part
